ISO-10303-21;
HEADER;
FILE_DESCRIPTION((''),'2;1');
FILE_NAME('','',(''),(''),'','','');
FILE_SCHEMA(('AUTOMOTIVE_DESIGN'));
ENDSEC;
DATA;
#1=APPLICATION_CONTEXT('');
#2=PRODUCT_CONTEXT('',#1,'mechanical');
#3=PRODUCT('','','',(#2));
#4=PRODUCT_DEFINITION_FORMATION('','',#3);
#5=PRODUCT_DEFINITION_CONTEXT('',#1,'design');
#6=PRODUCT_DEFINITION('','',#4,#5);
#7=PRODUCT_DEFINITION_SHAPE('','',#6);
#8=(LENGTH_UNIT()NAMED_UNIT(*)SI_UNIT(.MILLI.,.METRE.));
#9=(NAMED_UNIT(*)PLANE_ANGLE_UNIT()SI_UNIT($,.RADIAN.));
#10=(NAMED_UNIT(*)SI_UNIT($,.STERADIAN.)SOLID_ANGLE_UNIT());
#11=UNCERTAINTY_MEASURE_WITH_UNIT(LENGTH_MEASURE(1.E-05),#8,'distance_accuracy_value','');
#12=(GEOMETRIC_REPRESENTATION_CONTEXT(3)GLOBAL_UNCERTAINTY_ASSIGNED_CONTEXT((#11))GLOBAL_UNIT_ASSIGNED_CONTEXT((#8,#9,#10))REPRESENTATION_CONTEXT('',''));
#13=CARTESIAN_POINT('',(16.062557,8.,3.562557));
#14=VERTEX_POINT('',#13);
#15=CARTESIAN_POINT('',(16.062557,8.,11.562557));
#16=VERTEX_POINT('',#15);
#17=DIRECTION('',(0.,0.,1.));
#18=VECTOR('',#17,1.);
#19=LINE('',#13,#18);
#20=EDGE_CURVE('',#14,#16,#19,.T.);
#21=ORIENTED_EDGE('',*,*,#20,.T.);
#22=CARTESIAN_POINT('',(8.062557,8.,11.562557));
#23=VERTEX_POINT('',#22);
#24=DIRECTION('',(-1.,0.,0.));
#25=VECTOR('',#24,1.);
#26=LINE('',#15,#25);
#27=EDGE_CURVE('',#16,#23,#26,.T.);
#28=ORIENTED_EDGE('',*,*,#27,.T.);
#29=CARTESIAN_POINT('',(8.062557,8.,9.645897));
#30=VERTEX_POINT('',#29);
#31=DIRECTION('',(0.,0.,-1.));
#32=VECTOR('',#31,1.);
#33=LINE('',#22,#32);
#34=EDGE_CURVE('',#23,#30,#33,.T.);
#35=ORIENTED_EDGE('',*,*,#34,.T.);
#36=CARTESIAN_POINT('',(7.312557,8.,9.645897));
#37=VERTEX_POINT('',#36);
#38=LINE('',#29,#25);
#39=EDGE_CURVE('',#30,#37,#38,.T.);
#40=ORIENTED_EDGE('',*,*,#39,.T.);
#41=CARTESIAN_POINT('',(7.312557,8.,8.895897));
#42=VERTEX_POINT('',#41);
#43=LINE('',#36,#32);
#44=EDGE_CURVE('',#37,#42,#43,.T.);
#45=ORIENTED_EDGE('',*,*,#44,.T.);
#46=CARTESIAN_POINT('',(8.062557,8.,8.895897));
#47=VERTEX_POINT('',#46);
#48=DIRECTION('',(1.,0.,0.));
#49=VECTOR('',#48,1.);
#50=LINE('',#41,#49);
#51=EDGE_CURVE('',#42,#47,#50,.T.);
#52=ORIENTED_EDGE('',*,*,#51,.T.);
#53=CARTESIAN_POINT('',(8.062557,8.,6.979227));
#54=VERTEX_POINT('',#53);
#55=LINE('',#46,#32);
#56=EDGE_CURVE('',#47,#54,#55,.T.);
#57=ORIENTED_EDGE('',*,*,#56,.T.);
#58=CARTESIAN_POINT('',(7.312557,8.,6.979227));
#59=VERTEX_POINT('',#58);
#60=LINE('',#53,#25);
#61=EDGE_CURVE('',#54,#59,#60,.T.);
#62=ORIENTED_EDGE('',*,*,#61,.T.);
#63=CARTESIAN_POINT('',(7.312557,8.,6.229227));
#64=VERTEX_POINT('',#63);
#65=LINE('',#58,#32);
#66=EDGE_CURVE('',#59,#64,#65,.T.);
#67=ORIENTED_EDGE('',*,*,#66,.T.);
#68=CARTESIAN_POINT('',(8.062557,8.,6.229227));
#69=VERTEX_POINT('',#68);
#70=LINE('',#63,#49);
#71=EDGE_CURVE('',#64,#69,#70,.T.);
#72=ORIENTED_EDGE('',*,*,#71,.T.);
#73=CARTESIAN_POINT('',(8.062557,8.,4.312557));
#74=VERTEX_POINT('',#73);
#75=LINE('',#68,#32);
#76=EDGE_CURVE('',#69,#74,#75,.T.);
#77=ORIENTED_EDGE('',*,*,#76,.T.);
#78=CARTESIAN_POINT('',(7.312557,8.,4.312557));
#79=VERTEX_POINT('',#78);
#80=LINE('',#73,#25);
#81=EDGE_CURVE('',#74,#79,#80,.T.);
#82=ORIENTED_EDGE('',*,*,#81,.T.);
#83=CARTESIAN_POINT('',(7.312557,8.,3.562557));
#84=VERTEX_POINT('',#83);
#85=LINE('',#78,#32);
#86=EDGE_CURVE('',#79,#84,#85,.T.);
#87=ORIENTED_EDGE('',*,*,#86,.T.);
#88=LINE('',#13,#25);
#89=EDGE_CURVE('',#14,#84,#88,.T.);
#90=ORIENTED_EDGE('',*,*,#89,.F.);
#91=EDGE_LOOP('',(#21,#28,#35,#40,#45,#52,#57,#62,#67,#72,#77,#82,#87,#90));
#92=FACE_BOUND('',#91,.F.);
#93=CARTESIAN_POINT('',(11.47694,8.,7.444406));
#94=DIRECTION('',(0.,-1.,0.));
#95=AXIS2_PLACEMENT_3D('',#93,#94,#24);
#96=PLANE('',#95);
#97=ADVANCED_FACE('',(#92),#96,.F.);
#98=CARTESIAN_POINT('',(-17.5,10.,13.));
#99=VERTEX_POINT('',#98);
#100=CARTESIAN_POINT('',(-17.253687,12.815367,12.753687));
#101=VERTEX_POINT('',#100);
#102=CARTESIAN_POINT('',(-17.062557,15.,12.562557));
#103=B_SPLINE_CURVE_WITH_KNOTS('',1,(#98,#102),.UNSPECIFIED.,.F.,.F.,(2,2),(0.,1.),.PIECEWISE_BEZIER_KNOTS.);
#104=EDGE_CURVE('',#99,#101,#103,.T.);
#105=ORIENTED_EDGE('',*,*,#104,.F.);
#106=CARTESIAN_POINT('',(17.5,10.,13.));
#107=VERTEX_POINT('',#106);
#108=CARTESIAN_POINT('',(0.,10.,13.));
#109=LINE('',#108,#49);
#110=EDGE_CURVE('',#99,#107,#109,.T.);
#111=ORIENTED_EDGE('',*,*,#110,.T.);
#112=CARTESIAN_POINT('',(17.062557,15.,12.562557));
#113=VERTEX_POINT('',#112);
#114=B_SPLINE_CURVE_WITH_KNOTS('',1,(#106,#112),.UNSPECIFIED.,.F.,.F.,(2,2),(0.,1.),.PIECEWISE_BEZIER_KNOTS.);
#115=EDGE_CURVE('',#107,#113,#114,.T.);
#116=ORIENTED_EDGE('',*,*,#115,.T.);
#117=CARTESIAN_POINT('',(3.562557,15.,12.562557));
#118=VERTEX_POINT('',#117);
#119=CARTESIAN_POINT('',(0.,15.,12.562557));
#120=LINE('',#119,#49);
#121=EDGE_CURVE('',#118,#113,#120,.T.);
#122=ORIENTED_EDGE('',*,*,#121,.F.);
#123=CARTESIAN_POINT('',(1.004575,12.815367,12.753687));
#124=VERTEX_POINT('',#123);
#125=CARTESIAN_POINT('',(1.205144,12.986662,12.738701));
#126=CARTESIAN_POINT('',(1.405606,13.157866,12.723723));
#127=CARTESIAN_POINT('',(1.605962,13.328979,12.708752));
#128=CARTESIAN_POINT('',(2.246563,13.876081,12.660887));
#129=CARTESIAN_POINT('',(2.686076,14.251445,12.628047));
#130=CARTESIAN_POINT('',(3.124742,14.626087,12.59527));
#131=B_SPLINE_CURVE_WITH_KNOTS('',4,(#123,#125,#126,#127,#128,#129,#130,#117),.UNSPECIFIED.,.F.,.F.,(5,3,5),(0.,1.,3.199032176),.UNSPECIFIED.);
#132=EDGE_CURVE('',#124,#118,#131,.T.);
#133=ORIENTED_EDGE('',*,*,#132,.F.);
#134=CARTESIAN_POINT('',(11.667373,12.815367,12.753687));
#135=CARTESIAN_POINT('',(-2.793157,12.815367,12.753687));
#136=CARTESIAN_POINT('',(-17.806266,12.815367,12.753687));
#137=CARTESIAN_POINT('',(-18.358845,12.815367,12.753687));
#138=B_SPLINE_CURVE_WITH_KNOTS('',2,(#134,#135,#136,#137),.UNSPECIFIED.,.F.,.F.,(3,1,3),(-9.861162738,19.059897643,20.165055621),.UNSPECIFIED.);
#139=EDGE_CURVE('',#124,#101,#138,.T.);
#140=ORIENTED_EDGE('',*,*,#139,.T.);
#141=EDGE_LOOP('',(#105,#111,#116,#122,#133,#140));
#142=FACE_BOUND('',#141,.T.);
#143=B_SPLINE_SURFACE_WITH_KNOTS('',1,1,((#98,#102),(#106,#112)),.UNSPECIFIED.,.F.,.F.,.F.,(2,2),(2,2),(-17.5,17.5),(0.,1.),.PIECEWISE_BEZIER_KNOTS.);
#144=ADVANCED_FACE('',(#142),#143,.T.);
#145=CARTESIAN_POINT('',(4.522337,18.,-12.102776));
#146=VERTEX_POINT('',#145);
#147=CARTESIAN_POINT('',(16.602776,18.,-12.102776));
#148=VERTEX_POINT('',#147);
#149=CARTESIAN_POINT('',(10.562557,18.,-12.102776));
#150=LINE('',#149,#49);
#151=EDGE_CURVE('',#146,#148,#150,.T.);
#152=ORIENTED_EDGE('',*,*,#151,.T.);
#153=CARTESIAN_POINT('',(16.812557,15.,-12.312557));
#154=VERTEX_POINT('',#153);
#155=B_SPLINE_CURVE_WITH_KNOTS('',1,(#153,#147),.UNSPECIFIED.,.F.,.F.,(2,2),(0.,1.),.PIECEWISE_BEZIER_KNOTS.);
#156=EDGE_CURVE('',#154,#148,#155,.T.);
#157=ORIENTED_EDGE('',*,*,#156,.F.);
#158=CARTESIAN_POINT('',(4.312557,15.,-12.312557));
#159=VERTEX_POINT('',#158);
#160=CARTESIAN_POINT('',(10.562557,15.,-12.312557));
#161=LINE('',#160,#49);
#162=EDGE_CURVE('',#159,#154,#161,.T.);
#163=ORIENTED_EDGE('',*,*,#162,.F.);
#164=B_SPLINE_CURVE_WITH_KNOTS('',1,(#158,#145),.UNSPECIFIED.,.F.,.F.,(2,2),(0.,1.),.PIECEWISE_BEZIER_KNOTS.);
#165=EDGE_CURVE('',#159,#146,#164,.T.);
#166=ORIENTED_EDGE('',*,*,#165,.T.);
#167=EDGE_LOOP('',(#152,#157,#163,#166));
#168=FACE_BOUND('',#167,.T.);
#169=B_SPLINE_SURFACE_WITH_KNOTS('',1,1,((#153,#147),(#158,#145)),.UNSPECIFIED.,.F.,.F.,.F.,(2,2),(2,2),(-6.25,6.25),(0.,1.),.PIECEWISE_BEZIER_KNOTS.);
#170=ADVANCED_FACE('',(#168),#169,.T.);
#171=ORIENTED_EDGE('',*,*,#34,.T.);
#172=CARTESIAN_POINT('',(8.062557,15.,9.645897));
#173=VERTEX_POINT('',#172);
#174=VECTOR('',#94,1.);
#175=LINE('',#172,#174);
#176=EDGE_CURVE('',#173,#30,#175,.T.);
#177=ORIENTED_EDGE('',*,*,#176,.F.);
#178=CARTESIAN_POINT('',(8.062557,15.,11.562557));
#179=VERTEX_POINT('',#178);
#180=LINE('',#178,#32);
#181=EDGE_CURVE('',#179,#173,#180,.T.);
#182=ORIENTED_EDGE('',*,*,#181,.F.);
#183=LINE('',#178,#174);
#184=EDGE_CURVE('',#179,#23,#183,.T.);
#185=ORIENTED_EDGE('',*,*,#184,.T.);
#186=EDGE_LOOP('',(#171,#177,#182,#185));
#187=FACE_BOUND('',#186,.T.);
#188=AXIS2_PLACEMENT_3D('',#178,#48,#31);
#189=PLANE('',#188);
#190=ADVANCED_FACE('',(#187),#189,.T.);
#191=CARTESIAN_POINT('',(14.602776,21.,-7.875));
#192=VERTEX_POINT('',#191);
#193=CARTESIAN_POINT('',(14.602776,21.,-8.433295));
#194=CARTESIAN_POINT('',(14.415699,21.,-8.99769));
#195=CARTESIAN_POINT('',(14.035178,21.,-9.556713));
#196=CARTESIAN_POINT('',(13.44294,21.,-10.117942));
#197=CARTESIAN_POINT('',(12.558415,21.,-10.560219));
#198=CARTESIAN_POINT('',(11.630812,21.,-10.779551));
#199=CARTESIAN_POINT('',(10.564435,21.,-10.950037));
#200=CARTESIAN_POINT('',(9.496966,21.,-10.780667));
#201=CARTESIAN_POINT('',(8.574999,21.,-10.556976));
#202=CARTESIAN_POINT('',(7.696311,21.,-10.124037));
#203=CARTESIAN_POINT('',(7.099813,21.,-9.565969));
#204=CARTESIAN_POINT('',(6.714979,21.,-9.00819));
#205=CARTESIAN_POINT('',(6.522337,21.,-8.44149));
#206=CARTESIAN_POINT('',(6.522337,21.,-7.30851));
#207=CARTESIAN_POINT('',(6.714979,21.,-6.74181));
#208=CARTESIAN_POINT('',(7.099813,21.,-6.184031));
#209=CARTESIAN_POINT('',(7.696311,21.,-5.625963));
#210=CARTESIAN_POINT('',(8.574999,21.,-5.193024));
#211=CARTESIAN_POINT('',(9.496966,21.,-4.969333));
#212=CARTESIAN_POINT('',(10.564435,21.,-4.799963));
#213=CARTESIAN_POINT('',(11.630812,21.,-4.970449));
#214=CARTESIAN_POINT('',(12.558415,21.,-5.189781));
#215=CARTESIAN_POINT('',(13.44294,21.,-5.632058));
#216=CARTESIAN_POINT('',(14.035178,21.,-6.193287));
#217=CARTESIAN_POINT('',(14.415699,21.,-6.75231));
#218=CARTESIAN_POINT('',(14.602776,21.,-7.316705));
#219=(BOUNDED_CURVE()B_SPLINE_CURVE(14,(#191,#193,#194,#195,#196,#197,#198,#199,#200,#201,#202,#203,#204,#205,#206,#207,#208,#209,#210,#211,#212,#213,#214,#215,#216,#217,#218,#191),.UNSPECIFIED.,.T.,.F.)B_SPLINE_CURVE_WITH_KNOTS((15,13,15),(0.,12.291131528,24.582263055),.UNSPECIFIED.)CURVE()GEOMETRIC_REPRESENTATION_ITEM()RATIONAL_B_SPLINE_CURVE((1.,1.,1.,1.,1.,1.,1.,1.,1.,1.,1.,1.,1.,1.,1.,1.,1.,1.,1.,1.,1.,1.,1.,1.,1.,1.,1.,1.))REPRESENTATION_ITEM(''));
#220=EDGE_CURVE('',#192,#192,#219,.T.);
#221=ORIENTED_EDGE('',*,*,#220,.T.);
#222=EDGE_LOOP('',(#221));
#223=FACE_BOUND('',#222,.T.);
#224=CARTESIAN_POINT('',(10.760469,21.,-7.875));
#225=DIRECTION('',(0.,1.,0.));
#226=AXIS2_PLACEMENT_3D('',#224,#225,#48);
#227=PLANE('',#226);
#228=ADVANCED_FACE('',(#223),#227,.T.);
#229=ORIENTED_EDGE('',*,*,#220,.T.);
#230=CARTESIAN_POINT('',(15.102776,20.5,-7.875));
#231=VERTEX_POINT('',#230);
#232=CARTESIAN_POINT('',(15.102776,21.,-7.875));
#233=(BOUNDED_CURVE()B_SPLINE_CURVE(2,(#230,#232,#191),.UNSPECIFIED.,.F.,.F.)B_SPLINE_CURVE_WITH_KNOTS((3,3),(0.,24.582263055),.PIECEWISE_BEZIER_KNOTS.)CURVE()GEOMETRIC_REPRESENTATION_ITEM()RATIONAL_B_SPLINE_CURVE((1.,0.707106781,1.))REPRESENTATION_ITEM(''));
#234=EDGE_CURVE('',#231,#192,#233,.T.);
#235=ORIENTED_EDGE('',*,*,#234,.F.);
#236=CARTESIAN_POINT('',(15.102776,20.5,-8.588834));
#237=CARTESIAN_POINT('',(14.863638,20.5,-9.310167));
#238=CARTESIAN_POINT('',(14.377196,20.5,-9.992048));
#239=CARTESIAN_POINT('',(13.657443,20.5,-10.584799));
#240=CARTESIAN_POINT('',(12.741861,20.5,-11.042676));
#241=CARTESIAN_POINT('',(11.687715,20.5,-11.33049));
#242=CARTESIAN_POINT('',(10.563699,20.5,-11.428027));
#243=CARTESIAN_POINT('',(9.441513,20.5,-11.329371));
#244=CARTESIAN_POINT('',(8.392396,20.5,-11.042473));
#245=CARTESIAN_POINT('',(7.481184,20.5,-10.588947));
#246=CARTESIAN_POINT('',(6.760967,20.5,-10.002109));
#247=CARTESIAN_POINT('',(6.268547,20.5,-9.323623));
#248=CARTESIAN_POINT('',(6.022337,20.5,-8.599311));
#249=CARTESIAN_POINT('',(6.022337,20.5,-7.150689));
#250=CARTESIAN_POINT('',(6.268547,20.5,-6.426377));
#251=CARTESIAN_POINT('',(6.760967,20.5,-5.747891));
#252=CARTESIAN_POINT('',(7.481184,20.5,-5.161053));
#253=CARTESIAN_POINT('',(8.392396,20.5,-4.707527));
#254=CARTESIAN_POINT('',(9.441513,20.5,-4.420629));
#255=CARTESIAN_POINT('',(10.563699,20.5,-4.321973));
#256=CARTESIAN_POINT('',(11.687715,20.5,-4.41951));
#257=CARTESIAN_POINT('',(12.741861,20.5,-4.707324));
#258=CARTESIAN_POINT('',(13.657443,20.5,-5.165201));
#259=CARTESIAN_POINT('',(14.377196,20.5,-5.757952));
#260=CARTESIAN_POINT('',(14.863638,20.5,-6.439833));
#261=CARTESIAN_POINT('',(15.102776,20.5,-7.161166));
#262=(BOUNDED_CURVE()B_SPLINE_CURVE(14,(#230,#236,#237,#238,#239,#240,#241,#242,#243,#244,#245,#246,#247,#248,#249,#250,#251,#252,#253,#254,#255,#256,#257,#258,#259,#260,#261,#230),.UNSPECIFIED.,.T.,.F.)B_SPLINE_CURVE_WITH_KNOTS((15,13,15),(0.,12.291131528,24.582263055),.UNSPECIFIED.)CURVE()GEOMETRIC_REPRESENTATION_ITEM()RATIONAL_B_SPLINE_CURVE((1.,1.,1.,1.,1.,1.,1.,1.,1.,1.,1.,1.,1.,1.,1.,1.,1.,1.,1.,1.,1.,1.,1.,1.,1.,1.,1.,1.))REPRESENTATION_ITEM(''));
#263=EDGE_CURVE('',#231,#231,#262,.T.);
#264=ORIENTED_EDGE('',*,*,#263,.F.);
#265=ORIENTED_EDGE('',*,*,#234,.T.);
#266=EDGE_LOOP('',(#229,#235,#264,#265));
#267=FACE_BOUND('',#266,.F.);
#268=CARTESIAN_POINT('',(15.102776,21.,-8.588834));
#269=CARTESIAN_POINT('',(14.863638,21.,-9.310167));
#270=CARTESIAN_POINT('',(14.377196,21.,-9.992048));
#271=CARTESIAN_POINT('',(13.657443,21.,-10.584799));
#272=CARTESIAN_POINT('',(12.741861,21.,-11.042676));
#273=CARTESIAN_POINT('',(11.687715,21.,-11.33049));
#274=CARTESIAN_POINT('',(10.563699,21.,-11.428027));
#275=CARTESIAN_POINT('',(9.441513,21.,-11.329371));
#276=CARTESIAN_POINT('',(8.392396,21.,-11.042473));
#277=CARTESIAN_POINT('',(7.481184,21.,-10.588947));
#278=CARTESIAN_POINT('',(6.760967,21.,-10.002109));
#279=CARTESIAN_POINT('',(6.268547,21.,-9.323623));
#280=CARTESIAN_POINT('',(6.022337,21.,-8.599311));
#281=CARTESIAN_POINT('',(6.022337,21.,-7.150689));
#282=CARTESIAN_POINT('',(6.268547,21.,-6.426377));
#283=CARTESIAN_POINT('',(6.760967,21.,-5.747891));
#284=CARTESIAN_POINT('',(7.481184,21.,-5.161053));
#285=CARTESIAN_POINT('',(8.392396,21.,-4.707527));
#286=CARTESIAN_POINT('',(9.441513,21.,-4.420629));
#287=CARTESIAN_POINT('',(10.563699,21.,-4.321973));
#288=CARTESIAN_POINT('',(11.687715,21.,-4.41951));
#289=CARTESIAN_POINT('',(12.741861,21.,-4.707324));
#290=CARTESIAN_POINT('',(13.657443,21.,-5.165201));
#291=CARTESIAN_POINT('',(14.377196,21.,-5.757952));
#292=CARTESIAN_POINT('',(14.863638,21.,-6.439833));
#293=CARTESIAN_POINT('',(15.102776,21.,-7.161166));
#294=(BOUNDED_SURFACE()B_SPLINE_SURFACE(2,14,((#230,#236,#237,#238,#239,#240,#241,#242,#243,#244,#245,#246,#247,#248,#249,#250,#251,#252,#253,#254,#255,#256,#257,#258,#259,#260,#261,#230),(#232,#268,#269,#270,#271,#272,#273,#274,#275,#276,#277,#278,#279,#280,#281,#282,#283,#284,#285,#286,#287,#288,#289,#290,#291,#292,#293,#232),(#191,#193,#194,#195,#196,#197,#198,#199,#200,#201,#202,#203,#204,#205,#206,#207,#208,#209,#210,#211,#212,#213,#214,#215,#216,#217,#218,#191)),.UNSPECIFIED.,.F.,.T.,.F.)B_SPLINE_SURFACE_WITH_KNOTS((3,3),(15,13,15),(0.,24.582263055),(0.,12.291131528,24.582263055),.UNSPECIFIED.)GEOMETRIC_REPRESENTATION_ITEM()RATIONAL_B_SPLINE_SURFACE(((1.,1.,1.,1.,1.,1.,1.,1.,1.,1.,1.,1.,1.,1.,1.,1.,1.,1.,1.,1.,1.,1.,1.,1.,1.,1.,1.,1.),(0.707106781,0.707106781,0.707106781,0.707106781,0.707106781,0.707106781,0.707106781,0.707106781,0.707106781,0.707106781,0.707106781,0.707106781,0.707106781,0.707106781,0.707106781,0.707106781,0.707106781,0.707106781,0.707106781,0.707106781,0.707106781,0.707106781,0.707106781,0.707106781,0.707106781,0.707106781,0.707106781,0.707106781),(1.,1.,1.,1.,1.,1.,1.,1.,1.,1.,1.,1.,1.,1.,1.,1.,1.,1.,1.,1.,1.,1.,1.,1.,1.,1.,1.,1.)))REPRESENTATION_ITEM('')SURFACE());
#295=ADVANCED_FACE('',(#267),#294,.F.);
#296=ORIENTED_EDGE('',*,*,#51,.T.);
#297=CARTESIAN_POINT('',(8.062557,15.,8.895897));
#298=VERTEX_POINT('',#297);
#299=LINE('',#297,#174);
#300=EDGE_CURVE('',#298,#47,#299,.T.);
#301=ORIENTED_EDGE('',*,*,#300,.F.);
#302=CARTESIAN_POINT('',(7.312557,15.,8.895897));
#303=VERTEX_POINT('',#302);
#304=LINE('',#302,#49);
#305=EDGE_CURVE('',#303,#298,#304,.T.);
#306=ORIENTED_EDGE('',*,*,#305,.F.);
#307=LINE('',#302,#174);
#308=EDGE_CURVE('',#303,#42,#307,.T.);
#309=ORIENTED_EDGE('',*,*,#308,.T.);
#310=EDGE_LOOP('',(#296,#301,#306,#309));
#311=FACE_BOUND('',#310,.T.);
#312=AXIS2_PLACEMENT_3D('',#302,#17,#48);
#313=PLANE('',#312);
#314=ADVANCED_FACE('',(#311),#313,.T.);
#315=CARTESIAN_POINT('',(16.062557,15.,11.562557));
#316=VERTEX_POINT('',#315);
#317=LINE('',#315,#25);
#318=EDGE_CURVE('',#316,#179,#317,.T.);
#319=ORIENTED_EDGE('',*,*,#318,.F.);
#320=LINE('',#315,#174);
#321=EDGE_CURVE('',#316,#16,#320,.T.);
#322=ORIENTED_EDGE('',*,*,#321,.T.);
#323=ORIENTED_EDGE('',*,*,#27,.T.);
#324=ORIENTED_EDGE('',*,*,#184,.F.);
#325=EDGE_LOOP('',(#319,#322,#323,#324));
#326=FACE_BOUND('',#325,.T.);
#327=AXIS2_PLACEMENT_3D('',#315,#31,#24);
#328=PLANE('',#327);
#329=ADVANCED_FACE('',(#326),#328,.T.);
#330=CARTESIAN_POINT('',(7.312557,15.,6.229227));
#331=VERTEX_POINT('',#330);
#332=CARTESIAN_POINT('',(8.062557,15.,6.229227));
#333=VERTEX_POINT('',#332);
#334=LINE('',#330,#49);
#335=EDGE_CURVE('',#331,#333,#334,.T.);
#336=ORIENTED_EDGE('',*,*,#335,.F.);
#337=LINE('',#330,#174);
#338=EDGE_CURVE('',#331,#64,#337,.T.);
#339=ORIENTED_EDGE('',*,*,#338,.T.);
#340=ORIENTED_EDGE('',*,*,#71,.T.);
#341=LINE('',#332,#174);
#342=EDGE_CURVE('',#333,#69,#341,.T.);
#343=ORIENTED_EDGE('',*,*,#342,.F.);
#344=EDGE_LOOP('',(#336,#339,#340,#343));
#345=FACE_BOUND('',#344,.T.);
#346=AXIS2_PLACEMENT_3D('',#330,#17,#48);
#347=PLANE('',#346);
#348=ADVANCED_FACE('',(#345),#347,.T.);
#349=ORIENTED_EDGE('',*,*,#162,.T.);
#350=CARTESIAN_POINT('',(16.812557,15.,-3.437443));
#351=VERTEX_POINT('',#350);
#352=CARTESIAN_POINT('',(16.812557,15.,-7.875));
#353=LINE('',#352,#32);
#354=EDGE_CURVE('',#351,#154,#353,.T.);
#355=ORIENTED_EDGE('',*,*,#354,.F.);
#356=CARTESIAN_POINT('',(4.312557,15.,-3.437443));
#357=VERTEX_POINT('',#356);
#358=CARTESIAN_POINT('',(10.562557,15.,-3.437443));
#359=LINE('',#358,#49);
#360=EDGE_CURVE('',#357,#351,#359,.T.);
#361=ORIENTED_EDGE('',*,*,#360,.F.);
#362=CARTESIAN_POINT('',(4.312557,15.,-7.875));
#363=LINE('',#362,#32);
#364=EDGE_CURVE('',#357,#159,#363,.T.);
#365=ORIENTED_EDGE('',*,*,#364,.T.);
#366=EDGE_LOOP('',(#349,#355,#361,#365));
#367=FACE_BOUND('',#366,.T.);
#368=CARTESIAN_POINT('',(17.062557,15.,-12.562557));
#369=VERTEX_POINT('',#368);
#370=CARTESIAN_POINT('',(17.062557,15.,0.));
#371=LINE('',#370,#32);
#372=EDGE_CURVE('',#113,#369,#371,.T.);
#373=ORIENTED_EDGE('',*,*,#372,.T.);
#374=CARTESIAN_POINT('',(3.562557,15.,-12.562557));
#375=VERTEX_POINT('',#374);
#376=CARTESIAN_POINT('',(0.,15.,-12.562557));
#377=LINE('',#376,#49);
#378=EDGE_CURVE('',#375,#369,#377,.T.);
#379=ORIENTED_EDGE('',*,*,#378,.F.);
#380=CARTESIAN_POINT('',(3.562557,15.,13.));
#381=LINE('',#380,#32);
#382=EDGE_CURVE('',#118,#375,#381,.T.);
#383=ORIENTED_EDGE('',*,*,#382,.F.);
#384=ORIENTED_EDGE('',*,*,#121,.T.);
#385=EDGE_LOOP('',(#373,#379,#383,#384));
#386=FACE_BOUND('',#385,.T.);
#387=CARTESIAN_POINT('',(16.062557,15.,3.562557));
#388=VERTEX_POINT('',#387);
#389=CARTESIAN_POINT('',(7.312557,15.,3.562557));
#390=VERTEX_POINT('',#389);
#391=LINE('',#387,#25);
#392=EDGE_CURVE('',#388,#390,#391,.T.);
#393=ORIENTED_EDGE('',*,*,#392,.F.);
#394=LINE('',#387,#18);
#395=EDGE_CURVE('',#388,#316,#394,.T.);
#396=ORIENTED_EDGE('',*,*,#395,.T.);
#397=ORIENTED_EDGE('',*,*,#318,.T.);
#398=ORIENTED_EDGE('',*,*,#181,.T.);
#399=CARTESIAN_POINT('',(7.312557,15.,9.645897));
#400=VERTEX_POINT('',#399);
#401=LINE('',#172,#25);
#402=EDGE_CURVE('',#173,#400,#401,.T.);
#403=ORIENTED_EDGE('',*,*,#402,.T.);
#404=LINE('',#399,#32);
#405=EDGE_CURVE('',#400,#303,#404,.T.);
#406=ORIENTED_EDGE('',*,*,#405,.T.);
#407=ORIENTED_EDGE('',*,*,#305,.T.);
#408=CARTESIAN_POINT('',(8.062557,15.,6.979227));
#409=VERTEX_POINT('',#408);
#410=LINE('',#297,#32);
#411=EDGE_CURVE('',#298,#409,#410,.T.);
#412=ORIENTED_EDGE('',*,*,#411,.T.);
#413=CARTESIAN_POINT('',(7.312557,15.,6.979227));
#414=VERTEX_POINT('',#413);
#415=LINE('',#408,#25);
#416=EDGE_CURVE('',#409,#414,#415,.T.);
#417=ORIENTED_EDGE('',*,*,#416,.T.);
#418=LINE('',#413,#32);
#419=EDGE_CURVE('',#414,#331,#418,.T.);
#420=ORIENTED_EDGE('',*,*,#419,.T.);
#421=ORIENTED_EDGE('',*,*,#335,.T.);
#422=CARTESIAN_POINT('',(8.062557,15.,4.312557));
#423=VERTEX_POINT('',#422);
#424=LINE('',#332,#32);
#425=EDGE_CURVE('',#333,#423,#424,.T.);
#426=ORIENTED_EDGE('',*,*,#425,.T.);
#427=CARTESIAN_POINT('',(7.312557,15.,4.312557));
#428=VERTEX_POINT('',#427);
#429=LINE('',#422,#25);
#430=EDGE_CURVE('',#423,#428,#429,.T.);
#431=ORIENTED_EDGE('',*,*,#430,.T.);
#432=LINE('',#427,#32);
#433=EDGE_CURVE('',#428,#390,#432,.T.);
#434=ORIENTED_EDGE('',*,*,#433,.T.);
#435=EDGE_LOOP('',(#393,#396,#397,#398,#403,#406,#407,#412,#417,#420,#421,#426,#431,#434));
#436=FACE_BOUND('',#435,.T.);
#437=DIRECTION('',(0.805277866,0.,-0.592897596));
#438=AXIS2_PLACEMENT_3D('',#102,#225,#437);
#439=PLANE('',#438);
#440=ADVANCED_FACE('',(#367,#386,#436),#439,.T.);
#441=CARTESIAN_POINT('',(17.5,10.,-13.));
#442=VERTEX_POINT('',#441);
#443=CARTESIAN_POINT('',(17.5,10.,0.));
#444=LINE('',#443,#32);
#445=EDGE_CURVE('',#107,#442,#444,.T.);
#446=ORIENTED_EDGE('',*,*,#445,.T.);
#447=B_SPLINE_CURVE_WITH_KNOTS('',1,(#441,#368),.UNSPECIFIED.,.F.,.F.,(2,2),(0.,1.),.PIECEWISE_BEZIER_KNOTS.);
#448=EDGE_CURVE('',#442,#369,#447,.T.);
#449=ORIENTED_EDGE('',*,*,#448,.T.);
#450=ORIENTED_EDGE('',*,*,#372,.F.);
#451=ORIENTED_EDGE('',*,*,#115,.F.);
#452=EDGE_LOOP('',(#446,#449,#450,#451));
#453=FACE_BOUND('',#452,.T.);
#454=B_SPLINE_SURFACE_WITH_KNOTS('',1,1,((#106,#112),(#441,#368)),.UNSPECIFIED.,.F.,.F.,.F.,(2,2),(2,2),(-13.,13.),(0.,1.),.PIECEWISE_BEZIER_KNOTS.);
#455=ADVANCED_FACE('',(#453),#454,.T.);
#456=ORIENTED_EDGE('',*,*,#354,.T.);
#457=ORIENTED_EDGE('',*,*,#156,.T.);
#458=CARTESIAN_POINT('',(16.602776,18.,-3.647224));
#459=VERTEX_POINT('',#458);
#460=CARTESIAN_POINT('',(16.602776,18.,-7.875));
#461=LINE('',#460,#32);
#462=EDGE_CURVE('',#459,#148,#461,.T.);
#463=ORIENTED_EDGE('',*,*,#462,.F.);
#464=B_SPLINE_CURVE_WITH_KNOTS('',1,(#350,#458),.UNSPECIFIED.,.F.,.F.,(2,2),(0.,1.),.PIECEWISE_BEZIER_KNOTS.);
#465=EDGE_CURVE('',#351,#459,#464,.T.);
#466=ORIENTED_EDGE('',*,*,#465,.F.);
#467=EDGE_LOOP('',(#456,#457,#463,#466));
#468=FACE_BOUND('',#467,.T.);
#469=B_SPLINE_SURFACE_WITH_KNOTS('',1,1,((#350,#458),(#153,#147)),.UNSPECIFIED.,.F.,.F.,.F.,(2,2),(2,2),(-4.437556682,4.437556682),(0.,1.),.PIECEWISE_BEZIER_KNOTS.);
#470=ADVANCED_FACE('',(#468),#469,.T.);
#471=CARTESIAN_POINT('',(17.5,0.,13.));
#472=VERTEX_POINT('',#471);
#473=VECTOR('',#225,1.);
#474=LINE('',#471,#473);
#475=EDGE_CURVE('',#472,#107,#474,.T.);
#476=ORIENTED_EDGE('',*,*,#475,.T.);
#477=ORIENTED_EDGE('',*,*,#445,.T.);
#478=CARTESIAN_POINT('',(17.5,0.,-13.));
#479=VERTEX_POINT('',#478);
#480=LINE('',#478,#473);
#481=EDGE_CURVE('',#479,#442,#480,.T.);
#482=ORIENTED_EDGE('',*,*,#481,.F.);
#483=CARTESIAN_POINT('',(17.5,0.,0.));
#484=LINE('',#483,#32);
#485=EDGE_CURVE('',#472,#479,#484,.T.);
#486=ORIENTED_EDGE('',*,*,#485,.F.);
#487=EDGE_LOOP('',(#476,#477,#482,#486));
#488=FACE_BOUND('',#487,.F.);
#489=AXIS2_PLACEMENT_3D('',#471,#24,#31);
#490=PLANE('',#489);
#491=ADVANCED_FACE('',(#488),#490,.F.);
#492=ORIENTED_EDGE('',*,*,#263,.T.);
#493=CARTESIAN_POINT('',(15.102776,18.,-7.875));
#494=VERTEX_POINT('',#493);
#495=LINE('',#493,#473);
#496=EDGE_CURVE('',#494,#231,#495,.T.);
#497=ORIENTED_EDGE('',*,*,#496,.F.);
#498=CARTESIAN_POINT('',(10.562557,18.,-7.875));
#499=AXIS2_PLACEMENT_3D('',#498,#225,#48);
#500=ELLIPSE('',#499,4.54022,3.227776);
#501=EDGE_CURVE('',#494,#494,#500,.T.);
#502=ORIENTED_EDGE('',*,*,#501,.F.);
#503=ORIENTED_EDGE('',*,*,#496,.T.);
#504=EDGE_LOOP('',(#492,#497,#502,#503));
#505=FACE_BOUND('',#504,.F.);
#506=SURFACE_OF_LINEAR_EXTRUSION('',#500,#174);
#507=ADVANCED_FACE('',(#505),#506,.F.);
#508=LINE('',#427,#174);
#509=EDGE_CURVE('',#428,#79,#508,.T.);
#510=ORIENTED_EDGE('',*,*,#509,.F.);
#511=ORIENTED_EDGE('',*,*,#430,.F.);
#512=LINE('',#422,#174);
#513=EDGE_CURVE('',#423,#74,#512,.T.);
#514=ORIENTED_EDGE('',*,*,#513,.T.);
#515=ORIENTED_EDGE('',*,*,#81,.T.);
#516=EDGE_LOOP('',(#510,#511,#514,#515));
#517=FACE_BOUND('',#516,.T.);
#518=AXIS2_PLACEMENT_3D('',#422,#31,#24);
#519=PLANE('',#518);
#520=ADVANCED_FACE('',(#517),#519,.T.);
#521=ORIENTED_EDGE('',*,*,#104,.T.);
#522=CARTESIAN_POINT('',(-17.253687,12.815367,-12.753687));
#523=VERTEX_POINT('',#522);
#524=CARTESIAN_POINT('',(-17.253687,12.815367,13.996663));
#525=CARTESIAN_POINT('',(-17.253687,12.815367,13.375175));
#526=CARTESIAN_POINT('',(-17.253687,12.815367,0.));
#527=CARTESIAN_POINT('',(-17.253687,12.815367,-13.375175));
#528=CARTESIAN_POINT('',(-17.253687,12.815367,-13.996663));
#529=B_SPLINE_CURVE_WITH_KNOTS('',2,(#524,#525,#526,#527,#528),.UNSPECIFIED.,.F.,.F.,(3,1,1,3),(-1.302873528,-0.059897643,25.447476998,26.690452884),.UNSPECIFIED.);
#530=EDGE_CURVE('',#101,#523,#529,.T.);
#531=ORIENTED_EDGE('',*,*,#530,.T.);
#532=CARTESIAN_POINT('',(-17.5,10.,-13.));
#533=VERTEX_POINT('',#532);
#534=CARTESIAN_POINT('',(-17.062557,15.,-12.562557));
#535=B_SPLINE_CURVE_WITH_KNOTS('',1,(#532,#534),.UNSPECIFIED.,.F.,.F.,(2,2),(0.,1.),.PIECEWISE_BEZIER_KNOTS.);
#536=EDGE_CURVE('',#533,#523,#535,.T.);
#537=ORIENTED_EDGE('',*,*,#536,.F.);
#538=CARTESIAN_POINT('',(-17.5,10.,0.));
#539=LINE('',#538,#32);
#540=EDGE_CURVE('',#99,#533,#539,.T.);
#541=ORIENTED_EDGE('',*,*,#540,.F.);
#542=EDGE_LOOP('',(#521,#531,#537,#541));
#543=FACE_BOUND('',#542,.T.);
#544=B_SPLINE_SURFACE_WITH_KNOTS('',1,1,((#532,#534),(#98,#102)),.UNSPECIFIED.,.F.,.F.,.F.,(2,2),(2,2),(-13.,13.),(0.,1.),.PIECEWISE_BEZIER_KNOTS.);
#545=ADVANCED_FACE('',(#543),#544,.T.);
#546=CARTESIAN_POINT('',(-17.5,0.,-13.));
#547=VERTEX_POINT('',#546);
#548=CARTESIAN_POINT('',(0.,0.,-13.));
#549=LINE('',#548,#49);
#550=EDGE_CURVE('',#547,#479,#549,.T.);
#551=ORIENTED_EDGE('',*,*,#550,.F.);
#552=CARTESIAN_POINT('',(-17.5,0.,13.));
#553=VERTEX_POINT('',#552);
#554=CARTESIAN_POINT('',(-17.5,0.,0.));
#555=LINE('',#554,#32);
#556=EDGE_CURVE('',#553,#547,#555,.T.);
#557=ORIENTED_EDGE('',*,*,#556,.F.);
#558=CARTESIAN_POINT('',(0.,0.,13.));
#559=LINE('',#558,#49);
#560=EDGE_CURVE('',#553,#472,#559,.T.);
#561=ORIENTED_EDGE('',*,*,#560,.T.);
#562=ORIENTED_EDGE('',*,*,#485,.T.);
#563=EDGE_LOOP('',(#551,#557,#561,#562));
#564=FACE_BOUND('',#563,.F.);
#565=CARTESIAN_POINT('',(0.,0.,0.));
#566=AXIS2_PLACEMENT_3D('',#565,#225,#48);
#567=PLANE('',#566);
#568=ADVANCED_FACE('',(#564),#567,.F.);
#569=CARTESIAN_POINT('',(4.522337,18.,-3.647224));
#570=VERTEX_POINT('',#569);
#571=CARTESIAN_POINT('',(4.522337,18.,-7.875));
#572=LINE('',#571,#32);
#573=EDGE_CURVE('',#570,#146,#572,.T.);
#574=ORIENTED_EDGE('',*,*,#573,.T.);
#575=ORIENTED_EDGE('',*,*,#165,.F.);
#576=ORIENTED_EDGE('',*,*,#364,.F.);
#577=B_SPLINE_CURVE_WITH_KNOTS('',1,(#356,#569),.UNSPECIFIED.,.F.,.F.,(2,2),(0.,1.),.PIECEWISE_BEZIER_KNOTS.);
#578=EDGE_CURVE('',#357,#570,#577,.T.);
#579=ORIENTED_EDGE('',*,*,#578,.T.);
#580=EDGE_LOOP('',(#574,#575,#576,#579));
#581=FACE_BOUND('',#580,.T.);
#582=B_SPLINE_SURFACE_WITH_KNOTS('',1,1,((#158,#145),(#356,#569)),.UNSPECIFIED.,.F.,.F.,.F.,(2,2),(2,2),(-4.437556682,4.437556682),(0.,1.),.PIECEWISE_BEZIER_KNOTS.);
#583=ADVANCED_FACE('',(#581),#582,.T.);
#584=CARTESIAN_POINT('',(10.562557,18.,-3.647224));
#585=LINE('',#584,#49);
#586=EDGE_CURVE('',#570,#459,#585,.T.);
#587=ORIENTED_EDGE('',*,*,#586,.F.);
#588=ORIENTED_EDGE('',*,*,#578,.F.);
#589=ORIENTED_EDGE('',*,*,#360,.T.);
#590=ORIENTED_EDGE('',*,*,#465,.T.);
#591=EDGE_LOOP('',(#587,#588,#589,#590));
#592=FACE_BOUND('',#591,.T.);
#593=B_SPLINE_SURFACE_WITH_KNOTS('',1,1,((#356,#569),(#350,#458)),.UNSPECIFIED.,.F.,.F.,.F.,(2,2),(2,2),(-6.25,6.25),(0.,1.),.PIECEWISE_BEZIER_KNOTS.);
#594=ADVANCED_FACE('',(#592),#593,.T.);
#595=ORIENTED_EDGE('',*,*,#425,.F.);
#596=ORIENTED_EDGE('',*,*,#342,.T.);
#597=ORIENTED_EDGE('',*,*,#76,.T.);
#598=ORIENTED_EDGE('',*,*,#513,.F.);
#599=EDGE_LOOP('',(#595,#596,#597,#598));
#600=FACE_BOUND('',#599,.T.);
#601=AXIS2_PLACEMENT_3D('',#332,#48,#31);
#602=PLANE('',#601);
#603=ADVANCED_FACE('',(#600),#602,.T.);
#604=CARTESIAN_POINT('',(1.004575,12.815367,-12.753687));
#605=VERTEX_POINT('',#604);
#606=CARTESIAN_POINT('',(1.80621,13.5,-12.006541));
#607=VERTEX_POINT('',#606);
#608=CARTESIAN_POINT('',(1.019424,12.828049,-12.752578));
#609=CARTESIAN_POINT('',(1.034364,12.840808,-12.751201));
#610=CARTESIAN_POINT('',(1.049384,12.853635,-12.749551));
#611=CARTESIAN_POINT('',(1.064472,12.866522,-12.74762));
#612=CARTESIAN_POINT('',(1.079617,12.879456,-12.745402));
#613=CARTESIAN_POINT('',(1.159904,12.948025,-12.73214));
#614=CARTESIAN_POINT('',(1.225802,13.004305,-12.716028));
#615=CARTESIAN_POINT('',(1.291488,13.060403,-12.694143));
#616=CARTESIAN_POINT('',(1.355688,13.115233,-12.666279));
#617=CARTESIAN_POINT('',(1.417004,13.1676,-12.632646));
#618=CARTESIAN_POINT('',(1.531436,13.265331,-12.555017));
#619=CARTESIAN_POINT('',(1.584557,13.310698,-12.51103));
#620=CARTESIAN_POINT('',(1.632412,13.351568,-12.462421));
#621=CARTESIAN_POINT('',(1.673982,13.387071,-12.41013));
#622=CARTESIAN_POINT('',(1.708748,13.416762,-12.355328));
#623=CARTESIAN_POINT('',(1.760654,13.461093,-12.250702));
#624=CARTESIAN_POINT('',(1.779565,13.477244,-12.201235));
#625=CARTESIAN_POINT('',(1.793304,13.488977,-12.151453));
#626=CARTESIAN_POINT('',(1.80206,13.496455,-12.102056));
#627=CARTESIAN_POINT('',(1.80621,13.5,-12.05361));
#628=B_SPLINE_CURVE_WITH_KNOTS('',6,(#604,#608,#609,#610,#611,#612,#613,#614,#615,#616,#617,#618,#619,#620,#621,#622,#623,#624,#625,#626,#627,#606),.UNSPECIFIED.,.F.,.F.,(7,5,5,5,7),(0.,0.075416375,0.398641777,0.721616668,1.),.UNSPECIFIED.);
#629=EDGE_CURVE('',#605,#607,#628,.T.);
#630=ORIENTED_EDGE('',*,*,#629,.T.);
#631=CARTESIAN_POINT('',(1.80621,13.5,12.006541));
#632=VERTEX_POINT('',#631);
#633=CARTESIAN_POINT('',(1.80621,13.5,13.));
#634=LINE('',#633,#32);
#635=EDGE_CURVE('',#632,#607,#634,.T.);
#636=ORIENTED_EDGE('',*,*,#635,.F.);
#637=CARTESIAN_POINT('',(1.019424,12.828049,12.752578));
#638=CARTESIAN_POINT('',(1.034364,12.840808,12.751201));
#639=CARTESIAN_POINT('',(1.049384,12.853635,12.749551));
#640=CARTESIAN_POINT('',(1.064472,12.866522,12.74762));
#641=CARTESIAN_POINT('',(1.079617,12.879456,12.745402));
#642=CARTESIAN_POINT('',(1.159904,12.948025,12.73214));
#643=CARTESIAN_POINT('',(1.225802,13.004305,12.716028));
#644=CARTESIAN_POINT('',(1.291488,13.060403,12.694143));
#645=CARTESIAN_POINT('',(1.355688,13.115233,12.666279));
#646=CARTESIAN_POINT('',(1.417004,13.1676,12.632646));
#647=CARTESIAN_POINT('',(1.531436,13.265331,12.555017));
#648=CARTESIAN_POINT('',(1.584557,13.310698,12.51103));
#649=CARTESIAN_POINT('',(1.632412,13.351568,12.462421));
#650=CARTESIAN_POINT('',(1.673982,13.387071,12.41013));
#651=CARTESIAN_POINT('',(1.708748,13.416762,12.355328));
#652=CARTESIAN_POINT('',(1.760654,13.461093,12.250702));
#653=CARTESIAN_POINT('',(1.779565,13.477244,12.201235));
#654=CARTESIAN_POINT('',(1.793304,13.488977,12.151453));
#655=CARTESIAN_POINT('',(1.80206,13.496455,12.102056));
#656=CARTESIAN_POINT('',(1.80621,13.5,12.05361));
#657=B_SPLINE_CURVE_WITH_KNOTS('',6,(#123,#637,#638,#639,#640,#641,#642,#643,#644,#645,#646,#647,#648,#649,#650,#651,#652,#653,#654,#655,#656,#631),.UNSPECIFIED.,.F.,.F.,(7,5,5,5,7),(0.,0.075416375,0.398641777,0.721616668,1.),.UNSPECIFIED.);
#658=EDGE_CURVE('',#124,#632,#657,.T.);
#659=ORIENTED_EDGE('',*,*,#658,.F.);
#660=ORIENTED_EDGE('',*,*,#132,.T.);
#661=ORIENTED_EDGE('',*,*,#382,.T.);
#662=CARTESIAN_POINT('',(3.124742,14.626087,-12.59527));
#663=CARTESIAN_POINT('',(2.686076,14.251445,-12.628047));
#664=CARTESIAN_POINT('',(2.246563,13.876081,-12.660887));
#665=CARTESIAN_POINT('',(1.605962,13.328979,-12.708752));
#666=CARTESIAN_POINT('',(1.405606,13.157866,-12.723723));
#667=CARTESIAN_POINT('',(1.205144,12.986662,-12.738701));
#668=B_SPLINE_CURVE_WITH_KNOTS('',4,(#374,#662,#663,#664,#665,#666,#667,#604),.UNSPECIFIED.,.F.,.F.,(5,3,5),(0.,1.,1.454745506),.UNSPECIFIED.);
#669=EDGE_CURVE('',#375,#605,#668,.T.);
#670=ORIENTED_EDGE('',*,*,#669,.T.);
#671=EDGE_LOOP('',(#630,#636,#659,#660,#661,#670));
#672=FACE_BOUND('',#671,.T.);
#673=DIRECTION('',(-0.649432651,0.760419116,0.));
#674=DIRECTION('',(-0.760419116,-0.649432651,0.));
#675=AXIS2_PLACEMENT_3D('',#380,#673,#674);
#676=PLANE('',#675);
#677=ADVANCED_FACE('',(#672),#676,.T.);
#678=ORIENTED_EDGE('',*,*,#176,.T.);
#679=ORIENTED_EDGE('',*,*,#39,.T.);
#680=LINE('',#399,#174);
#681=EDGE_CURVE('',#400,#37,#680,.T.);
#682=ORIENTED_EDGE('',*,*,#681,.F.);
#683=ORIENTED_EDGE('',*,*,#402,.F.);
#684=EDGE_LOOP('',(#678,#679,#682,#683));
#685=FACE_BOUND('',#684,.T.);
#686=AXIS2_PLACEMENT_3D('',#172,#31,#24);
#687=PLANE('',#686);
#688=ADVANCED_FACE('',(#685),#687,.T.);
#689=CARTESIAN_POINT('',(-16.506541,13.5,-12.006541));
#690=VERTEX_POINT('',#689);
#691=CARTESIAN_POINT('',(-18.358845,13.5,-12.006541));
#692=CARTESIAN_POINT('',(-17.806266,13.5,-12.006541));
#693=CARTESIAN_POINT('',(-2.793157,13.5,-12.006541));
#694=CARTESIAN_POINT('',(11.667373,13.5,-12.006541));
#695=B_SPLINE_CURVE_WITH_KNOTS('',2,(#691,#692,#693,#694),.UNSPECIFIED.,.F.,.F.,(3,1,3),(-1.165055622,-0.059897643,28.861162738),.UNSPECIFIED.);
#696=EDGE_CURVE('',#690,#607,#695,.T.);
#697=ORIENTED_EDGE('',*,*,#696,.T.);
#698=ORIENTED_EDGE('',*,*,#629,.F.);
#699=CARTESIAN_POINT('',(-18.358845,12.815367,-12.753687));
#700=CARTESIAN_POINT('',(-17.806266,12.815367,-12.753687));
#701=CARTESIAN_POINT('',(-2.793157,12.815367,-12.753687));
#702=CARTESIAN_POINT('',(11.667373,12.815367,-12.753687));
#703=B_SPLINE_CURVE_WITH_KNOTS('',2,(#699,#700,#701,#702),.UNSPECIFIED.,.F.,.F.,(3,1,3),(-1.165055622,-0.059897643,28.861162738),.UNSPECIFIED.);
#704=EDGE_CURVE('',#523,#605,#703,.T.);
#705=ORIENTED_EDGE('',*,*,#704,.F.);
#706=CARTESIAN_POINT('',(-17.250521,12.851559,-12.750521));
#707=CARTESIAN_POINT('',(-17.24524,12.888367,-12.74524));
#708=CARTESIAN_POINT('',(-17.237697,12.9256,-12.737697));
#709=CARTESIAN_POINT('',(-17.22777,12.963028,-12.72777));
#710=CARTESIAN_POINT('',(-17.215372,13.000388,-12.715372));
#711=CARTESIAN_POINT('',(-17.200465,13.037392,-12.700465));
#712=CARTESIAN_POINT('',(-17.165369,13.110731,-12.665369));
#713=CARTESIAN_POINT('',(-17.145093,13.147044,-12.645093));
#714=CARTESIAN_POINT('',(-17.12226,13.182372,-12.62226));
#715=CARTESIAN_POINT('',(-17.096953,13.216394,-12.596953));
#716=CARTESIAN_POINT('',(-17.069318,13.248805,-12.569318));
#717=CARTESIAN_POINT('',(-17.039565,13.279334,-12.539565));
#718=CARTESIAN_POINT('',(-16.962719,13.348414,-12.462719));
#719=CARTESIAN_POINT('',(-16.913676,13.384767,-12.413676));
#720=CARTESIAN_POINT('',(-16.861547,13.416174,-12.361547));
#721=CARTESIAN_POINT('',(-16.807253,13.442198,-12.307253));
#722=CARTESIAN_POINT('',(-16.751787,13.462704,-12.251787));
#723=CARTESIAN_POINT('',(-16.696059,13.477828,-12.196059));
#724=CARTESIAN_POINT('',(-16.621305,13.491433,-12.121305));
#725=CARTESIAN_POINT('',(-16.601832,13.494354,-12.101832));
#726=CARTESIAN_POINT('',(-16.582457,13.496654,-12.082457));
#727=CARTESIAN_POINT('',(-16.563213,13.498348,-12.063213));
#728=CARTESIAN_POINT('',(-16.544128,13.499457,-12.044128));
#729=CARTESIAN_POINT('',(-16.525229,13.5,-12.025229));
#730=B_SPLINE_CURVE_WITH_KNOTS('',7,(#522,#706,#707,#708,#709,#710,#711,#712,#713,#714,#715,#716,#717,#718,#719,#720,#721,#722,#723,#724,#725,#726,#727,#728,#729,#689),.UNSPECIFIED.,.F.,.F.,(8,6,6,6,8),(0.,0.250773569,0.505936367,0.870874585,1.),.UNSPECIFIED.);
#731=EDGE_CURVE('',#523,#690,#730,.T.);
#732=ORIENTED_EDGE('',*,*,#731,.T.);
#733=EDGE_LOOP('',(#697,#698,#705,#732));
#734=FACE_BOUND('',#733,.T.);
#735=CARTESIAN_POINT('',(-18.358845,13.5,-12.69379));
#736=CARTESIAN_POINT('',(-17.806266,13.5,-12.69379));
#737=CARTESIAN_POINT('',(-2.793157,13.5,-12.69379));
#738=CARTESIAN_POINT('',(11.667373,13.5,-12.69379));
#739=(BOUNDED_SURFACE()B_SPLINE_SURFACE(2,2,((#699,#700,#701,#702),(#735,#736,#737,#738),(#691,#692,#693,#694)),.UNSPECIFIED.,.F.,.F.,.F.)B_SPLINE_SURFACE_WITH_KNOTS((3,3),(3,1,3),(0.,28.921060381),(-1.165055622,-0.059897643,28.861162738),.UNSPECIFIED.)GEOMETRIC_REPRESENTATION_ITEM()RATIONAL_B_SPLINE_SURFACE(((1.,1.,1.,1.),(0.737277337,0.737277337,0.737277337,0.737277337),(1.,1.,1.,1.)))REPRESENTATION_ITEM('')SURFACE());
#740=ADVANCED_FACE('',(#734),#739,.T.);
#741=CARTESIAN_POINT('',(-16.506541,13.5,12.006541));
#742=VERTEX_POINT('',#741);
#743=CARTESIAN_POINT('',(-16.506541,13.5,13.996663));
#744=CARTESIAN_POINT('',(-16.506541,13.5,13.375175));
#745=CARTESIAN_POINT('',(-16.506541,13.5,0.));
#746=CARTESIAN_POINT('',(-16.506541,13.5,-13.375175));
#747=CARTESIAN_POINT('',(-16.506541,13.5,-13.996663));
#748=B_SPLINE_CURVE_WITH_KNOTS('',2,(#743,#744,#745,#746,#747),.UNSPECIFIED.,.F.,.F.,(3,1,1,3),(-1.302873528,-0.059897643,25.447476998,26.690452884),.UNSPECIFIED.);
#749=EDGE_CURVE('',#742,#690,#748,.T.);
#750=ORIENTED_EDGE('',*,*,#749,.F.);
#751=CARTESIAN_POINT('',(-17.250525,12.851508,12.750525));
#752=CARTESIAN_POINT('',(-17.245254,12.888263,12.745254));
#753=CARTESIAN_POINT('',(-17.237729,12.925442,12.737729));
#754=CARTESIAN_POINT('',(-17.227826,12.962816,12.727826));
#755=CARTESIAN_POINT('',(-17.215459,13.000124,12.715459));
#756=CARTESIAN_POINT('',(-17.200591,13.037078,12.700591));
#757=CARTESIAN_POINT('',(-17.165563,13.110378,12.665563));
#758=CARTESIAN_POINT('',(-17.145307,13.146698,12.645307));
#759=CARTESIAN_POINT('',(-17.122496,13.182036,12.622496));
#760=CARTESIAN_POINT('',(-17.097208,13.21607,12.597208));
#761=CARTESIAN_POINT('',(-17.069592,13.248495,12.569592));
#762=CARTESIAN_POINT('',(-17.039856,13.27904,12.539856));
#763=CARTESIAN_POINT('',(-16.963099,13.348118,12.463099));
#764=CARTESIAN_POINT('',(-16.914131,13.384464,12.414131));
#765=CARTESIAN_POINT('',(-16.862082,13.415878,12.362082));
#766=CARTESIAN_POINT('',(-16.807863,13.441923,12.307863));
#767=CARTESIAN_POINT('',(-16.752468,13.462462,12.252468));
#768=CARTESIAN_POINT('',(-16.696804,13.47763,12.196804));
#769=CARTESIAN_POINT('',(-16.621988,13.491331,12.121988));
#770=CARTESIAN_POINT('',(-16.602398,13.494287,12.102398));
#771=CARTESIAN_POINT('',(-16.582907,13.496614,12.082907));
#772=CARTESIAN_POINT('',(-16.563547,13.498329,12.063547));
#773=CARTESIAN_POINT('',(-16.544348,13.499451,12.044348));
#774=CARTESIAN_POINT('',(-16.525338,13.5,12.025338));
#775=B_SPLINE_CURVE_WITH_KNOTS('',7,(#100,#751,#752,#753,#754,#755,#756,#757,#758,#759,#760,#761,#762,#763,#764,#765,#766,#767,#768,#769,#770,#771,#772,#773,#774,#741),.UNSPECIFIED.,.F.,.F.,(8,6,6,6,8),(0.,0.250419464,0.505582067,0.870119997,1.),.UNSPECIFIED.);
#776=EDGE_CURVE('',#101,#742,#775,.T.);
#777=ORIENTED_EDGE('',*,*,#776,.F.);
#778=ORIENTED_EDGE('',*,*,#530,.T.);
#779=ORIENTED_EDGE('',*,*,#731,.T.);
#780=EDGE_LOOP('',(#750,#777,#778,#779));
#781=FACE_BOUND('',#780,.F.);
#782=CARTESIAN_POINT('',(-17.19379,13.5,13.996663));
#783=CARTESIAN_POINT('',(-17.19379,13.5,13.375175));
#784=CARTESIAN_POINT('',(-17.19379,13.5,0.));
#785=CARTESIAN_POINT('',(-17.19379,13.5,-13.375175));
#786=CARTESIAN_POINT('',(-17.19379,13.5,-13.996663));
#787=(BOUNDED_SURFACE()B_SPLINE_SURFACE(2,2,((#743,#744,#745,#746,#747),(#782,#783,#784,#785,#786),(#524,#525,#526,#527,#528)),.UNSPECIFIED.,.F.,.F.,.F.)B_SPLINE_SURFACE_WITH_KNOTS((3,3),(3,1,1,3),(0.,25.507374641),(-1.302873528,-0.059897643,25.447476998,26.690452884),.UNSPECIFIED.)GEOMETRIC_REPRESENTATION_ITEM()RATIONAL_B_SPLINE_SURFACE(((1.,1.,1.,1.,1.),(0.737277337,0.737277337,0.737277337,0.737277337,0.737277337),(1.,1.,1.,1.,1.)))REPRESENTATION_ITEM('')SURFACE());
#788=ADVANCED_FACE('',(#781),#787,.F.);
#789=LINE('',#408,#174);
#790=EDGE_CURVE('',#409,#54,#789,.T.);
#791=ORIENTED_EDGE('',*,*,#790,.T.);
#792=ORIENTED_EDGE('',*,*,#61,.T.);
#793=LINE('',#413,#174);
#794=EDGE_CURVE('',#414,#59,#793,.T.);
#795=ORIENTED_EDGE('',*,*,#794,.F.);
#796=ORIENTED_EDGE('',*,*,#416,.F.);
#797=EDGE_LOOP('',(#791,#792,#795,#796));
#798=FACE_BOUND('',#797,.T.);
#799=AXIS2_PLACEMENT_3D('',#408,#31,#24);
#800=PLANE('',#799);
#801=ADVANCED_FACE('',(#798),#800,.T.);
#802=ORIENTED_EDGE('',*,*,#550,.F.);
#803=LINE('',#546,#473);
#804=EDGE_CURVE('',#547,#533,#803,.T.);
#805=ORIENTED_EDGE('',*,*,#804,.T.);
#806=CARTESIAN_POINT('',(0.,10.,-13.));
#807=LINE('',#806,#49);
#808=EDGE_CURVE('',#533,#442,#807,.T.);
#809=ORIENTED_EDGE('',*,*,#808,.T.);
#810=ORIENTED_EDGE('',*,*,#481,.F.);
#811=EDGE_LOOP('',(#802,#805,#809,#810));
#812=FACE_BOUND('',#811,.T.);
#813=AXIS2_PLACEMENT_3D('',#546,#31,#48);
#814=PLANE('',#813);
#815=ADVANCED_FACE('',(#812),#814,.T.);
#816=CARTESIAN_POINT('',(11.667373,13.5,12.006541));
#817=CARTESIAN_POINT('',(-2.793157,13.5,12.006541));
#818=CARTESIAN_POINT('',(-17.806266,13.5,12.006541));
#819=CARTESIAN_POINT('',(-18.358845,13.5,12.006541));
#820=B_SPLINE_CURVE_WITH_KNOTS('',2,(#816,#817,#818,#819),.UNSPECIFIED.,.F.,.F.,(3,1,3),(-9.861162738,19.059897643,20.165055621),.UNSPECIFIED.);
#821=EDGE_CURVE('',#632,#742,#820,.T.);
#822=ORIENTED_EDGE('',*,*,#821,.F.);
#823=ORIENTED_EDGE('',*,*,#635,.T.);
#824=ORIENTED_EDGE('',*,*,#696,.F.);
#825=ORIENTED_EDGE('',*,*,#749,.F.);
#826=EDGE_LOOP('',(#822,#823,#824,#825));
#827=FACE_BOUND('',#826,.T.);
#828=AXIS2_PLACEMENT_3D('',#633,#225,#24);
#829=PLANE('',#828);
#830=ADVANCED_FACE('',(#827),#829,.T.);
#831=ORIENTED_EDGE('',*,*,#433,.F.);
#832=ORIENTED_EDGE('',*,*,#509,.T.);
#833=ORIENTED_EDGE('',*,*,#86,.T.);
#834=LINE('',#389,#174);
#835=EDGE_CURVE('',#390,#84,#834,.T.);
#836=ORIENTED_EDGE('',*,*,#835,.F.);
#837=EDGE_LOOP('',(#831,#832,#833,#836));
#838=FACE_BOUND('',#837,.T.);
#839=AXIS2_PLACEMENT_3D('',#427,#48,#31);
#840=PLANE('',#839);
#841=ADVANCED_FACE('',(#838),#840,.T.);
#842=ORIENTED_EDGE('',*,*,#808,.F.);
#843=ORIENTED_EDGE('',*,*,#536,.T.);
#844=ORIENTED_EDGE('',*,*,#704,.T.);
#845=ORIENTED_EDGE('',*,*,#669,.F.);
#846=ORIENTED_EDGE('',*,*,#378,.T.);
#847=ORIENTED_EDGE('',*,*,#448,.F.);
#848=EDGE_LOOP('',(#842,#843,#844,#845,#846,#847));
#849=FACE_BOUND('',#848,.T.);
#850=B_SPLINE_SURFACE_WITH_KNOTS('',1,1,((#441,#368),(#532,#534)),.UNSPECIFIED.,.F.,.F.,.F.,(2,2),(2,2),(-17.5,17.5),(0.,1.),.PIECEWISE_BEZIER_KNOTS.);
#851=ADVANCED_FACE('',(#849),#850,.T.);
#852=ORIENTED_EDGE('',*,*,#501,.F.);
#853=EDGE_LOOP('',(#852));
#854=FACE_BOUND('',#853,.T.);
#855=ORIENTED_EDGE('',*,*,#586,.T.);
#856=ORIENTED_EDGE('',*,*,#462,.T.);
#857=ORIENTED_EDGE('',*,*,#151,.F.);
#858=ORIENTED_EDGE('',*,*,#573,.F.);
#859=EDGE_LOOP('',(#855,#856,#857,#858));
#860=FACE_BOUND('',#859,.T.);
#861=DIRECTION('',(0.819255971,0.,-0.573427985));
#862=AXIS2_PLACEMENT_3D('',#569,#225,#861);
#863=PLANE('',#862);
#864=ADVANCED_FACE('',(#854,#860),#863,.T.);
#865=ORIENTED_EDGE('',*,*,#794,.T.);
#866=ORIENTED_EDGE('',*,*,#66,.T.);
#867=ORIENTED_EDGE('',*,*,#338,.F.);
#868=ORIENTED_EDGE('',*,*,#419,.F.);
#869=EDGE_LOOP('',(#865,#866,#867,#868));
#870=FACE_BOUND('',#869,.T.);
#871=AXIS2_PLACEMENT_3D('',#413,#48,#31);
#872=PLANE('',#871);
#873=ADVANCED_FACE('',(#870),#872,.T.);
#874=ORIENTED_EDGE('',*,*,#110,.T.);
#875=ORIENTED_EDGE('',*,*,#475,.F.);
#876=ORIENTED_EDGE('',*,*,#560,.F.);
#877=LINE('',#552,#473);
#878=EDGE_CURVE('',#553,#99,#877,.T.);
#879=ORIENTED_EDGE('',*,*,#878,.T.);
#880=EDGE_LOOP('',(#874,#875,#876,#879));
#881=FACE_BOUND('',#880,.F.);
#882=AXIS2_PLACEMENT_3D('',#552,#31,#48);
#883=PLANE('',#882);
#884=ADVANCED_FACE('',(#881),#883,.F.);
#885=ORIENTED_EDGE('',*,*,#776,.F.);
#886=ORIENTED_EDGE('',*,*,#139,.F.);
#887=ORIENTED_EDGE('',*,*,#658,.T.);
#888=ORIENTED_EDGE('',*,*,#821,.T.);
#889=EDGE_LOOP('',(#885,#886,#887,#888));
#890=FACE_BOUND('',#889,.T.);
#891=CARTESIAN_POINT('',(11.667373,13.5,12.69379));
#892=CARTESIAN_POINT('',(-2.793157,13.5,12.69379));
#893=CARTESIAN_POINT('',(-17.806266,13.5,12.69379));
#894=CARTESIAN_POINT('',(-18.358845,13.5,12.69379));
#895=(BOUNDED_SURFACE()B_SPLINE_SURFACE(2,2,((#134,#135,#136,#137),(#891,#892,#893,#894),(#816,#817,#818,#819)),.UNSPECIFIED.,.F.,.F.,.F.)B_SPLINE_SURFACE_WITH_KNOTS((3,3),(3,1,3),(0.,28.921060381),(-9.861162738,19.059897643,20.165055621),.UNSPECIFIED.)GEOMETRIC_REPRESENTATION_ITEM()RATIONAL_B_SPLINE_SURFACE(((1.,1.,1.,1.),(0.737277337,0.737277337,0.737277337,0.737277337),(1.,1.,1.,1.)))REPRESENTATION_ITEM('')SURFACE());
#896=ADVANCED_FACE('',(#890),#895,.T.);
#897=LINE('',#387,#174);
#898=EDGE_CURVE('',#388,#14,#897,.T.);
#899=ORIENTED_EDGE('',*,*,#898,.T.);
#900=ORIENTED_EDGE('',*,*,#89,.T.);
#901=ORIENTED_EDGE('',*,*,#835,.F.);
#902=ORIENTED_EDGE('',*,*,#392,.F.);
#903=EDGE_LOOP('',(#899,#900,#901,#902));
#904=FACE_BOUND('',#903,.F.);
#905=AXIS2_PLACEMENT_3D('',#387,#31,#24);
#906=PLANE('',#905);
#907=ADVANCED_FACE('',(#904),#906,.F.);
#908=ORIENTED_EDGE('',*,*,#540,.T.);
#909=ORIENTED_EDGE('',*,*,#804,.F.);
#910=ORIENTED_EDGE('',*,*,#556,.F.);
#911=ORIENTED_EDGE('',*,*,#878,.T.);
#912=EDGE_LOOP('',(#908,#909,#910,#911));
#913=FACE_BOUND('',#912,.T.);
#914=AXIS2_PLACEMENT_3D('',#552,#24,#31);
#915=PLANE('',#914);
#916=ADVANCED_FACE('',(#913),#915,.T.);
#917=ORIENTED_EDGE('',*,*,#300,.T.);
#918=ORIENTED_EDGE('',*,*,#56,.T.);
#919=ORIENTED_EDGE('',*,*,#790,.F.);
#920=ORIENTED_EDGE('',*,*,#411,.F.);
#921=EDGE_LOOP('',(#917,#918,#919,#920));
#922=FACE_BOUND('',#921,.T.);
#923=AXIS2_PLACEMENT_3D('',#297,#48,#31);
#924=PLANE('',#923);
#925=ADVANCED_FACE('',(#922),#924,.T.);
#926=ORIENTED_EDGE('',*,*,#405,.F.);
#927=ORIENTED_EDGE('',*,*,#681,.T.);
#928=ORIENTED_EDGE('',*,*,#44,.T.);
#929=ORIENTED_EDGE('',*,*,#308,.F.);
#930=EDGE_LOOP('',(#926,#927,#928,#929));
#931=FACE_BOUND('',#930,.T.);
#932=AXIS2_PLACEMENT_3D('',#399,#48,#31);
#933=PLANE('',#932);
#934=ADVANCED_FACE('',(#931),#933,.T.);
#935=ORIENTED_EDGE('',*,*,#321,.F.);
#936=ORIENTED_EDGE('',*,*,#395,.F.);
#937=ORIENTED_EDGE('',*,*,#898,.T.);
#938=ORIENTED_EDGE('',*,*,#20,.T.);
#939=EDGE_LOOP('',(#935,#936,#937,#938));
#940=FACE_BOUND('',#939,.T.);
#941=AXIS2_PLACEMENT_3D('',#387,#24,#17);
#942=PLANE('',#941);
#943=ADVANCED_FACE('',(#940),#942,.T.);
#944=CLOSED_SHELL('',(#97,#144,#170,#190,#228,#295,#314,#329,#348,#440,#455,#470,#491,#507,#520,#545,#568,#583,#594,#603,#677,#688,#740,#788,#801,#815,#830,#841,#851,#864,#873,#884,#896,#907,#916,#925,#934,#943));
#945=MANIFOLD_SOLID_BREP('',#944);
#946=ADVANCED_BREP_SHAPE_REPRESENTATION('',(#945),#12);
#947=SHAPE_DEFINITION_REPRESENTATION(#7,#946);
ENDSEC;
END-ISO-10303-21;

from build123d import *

# Parameters (mm, degrees)
SKETCH1_W           = 35
SKETCH1_H           = 26
BOSS_EXTRUDE1_DEPTH = 10
SKETCH2_W           = 35
SKETCH2_H           = 26
BOSS_EXTRUDE3_DEPTH = 5
BOSS_EXTRUDE3_TAPER = 5
CUT_EXTRUDE1_DEPTH  = 35.745503475
CUT_EXTRUDE2_DEPTH  = 7
SKETCH5_W           = 12.5
SKETCH5_H           = 8.875113364
BOSS_EXTRUDE4_DEPTH = 3
BOSS_EXTRUDE4_TAPER = 4
SKETCH6_RX          = 4.540219564
SKETCH6_RY          = 3.227776247
BOSS_EXTRUDE5_DEPTH = 3
FILLET1_R           = 0.5
FILLET2_R           = 0.75


with BuildPart() as part:
    # Sketch1 → Boss-Extrude1 (new body)
    with BuildSketch(Plane(origin=(0, 0, 0), x_dir=(1, 0, 0), z_dir=(0, 1, 0))):
        Rectangle(SKETCH1_W, SKETCH1_H)
    extrude(amount=BOSS_EXTRUDE1_DEPTH)

    # Sketch2 → Boss-Extrude3 (add)
    with BuildSketch(Plane(origin=(0, 10, 0), x_dir=(1, 0, 0), z_dir=(0, 1, 0))):
        Rectangle(SKETCH2_W, SKETCH2_H)
    extrude(amount=BOSS_EXTRUDE3_DEPTH, taper=BOSS_EXTRUDE3_TAPER)

    # Sketch3 → Cut-Extrude1 (cut, through all)
    with BuildSketch(Plane.XY.offset(13)):
        Polygon((-17.500926093, 15), (3.562556682, 15), (1.806210322, 13.5), (-17.500926093, 13.5), align=None)
    extrude(amount=-CUT_EXTRUDE1_DEPTH, mode=Mode.SUBTRACT)

    # Sketch4 → Cut-Extrude2 (cut)
    with BuildSketch(Plane(origin=(0, 15, 0), x_dir=(1, 0, 0), z_dir=(0, 1, 0))):
        Polygon((8.062556682, -6.229226682), (8.062556682, -4.312556682), (7.312556682, -4.312556682), (7.312556682, -3.562556682), (8.062556682, -3.562556682), (16.062556682, -3.562556682), (16.062556682, -11.562556682), (8.062556682, -11.562556682), (8.062556682, -9.645896682), (7.312556682, -9.645896682), (7.312556682, -8.895896682), (8.062556682, -8.895896682), (8.062556682, -6.979226682), (7.312556682, -6.979226682), (7.312556682, -6.229226682), align=None)
    extrude(amount=-CUT_EXTRUDE2_DEPTH, mode=Mode.SUBTRACT)

    # Sketch5 → Boss-Extrude4 (add)
    with BuildSketch(Plane(origin=(0, 15, 0), x_dir=(1, 0, 0), z_dir=(0, 1, 0))):
        with Locations((10.562556682, 7.875)):
            Rectangle(SKETCH5_W, SKETCH5_H)
    extrude(amount=BOSS_EXTRUDE4_DEPTH, taper=BOSS_EXTRUDE4_TAPER)

    # Sketch6 → Boss-Extrude5 (add)
    with BuildSketch(Plane(origin=(0, 18, 0), x_dir=(1, 0, 0), z_dir=(0, 1, 0))):
        with Locations((10.562556682, 7.875)):
            Ellipse(SKETCH6_RX, SKETCH6_RY)
    extrude(amount=BOSS_EXTRUDE5_DEPTH)

    # Fillet1
    fillet1_edges = [part.edges().sort_by_distance(p)[0] for p in [
        (6.022337953, 21, -7.873042931),
    ]]
    fillet(fillet1_edges, radius=FILLET1_R)

    # Fillet2
    fillet2_edges = [part.edges().sort_by_distance(p)[0] for p in [
        (-7.693789678, 13.5, 12.693789678),
        (-7.693789678, 13.5, -12.693789678),
        (-17.193789678, 13.5, 0),
    ]]
    fillet(fillet2_edges, radius=FILLET2_R)


solid = part.part
